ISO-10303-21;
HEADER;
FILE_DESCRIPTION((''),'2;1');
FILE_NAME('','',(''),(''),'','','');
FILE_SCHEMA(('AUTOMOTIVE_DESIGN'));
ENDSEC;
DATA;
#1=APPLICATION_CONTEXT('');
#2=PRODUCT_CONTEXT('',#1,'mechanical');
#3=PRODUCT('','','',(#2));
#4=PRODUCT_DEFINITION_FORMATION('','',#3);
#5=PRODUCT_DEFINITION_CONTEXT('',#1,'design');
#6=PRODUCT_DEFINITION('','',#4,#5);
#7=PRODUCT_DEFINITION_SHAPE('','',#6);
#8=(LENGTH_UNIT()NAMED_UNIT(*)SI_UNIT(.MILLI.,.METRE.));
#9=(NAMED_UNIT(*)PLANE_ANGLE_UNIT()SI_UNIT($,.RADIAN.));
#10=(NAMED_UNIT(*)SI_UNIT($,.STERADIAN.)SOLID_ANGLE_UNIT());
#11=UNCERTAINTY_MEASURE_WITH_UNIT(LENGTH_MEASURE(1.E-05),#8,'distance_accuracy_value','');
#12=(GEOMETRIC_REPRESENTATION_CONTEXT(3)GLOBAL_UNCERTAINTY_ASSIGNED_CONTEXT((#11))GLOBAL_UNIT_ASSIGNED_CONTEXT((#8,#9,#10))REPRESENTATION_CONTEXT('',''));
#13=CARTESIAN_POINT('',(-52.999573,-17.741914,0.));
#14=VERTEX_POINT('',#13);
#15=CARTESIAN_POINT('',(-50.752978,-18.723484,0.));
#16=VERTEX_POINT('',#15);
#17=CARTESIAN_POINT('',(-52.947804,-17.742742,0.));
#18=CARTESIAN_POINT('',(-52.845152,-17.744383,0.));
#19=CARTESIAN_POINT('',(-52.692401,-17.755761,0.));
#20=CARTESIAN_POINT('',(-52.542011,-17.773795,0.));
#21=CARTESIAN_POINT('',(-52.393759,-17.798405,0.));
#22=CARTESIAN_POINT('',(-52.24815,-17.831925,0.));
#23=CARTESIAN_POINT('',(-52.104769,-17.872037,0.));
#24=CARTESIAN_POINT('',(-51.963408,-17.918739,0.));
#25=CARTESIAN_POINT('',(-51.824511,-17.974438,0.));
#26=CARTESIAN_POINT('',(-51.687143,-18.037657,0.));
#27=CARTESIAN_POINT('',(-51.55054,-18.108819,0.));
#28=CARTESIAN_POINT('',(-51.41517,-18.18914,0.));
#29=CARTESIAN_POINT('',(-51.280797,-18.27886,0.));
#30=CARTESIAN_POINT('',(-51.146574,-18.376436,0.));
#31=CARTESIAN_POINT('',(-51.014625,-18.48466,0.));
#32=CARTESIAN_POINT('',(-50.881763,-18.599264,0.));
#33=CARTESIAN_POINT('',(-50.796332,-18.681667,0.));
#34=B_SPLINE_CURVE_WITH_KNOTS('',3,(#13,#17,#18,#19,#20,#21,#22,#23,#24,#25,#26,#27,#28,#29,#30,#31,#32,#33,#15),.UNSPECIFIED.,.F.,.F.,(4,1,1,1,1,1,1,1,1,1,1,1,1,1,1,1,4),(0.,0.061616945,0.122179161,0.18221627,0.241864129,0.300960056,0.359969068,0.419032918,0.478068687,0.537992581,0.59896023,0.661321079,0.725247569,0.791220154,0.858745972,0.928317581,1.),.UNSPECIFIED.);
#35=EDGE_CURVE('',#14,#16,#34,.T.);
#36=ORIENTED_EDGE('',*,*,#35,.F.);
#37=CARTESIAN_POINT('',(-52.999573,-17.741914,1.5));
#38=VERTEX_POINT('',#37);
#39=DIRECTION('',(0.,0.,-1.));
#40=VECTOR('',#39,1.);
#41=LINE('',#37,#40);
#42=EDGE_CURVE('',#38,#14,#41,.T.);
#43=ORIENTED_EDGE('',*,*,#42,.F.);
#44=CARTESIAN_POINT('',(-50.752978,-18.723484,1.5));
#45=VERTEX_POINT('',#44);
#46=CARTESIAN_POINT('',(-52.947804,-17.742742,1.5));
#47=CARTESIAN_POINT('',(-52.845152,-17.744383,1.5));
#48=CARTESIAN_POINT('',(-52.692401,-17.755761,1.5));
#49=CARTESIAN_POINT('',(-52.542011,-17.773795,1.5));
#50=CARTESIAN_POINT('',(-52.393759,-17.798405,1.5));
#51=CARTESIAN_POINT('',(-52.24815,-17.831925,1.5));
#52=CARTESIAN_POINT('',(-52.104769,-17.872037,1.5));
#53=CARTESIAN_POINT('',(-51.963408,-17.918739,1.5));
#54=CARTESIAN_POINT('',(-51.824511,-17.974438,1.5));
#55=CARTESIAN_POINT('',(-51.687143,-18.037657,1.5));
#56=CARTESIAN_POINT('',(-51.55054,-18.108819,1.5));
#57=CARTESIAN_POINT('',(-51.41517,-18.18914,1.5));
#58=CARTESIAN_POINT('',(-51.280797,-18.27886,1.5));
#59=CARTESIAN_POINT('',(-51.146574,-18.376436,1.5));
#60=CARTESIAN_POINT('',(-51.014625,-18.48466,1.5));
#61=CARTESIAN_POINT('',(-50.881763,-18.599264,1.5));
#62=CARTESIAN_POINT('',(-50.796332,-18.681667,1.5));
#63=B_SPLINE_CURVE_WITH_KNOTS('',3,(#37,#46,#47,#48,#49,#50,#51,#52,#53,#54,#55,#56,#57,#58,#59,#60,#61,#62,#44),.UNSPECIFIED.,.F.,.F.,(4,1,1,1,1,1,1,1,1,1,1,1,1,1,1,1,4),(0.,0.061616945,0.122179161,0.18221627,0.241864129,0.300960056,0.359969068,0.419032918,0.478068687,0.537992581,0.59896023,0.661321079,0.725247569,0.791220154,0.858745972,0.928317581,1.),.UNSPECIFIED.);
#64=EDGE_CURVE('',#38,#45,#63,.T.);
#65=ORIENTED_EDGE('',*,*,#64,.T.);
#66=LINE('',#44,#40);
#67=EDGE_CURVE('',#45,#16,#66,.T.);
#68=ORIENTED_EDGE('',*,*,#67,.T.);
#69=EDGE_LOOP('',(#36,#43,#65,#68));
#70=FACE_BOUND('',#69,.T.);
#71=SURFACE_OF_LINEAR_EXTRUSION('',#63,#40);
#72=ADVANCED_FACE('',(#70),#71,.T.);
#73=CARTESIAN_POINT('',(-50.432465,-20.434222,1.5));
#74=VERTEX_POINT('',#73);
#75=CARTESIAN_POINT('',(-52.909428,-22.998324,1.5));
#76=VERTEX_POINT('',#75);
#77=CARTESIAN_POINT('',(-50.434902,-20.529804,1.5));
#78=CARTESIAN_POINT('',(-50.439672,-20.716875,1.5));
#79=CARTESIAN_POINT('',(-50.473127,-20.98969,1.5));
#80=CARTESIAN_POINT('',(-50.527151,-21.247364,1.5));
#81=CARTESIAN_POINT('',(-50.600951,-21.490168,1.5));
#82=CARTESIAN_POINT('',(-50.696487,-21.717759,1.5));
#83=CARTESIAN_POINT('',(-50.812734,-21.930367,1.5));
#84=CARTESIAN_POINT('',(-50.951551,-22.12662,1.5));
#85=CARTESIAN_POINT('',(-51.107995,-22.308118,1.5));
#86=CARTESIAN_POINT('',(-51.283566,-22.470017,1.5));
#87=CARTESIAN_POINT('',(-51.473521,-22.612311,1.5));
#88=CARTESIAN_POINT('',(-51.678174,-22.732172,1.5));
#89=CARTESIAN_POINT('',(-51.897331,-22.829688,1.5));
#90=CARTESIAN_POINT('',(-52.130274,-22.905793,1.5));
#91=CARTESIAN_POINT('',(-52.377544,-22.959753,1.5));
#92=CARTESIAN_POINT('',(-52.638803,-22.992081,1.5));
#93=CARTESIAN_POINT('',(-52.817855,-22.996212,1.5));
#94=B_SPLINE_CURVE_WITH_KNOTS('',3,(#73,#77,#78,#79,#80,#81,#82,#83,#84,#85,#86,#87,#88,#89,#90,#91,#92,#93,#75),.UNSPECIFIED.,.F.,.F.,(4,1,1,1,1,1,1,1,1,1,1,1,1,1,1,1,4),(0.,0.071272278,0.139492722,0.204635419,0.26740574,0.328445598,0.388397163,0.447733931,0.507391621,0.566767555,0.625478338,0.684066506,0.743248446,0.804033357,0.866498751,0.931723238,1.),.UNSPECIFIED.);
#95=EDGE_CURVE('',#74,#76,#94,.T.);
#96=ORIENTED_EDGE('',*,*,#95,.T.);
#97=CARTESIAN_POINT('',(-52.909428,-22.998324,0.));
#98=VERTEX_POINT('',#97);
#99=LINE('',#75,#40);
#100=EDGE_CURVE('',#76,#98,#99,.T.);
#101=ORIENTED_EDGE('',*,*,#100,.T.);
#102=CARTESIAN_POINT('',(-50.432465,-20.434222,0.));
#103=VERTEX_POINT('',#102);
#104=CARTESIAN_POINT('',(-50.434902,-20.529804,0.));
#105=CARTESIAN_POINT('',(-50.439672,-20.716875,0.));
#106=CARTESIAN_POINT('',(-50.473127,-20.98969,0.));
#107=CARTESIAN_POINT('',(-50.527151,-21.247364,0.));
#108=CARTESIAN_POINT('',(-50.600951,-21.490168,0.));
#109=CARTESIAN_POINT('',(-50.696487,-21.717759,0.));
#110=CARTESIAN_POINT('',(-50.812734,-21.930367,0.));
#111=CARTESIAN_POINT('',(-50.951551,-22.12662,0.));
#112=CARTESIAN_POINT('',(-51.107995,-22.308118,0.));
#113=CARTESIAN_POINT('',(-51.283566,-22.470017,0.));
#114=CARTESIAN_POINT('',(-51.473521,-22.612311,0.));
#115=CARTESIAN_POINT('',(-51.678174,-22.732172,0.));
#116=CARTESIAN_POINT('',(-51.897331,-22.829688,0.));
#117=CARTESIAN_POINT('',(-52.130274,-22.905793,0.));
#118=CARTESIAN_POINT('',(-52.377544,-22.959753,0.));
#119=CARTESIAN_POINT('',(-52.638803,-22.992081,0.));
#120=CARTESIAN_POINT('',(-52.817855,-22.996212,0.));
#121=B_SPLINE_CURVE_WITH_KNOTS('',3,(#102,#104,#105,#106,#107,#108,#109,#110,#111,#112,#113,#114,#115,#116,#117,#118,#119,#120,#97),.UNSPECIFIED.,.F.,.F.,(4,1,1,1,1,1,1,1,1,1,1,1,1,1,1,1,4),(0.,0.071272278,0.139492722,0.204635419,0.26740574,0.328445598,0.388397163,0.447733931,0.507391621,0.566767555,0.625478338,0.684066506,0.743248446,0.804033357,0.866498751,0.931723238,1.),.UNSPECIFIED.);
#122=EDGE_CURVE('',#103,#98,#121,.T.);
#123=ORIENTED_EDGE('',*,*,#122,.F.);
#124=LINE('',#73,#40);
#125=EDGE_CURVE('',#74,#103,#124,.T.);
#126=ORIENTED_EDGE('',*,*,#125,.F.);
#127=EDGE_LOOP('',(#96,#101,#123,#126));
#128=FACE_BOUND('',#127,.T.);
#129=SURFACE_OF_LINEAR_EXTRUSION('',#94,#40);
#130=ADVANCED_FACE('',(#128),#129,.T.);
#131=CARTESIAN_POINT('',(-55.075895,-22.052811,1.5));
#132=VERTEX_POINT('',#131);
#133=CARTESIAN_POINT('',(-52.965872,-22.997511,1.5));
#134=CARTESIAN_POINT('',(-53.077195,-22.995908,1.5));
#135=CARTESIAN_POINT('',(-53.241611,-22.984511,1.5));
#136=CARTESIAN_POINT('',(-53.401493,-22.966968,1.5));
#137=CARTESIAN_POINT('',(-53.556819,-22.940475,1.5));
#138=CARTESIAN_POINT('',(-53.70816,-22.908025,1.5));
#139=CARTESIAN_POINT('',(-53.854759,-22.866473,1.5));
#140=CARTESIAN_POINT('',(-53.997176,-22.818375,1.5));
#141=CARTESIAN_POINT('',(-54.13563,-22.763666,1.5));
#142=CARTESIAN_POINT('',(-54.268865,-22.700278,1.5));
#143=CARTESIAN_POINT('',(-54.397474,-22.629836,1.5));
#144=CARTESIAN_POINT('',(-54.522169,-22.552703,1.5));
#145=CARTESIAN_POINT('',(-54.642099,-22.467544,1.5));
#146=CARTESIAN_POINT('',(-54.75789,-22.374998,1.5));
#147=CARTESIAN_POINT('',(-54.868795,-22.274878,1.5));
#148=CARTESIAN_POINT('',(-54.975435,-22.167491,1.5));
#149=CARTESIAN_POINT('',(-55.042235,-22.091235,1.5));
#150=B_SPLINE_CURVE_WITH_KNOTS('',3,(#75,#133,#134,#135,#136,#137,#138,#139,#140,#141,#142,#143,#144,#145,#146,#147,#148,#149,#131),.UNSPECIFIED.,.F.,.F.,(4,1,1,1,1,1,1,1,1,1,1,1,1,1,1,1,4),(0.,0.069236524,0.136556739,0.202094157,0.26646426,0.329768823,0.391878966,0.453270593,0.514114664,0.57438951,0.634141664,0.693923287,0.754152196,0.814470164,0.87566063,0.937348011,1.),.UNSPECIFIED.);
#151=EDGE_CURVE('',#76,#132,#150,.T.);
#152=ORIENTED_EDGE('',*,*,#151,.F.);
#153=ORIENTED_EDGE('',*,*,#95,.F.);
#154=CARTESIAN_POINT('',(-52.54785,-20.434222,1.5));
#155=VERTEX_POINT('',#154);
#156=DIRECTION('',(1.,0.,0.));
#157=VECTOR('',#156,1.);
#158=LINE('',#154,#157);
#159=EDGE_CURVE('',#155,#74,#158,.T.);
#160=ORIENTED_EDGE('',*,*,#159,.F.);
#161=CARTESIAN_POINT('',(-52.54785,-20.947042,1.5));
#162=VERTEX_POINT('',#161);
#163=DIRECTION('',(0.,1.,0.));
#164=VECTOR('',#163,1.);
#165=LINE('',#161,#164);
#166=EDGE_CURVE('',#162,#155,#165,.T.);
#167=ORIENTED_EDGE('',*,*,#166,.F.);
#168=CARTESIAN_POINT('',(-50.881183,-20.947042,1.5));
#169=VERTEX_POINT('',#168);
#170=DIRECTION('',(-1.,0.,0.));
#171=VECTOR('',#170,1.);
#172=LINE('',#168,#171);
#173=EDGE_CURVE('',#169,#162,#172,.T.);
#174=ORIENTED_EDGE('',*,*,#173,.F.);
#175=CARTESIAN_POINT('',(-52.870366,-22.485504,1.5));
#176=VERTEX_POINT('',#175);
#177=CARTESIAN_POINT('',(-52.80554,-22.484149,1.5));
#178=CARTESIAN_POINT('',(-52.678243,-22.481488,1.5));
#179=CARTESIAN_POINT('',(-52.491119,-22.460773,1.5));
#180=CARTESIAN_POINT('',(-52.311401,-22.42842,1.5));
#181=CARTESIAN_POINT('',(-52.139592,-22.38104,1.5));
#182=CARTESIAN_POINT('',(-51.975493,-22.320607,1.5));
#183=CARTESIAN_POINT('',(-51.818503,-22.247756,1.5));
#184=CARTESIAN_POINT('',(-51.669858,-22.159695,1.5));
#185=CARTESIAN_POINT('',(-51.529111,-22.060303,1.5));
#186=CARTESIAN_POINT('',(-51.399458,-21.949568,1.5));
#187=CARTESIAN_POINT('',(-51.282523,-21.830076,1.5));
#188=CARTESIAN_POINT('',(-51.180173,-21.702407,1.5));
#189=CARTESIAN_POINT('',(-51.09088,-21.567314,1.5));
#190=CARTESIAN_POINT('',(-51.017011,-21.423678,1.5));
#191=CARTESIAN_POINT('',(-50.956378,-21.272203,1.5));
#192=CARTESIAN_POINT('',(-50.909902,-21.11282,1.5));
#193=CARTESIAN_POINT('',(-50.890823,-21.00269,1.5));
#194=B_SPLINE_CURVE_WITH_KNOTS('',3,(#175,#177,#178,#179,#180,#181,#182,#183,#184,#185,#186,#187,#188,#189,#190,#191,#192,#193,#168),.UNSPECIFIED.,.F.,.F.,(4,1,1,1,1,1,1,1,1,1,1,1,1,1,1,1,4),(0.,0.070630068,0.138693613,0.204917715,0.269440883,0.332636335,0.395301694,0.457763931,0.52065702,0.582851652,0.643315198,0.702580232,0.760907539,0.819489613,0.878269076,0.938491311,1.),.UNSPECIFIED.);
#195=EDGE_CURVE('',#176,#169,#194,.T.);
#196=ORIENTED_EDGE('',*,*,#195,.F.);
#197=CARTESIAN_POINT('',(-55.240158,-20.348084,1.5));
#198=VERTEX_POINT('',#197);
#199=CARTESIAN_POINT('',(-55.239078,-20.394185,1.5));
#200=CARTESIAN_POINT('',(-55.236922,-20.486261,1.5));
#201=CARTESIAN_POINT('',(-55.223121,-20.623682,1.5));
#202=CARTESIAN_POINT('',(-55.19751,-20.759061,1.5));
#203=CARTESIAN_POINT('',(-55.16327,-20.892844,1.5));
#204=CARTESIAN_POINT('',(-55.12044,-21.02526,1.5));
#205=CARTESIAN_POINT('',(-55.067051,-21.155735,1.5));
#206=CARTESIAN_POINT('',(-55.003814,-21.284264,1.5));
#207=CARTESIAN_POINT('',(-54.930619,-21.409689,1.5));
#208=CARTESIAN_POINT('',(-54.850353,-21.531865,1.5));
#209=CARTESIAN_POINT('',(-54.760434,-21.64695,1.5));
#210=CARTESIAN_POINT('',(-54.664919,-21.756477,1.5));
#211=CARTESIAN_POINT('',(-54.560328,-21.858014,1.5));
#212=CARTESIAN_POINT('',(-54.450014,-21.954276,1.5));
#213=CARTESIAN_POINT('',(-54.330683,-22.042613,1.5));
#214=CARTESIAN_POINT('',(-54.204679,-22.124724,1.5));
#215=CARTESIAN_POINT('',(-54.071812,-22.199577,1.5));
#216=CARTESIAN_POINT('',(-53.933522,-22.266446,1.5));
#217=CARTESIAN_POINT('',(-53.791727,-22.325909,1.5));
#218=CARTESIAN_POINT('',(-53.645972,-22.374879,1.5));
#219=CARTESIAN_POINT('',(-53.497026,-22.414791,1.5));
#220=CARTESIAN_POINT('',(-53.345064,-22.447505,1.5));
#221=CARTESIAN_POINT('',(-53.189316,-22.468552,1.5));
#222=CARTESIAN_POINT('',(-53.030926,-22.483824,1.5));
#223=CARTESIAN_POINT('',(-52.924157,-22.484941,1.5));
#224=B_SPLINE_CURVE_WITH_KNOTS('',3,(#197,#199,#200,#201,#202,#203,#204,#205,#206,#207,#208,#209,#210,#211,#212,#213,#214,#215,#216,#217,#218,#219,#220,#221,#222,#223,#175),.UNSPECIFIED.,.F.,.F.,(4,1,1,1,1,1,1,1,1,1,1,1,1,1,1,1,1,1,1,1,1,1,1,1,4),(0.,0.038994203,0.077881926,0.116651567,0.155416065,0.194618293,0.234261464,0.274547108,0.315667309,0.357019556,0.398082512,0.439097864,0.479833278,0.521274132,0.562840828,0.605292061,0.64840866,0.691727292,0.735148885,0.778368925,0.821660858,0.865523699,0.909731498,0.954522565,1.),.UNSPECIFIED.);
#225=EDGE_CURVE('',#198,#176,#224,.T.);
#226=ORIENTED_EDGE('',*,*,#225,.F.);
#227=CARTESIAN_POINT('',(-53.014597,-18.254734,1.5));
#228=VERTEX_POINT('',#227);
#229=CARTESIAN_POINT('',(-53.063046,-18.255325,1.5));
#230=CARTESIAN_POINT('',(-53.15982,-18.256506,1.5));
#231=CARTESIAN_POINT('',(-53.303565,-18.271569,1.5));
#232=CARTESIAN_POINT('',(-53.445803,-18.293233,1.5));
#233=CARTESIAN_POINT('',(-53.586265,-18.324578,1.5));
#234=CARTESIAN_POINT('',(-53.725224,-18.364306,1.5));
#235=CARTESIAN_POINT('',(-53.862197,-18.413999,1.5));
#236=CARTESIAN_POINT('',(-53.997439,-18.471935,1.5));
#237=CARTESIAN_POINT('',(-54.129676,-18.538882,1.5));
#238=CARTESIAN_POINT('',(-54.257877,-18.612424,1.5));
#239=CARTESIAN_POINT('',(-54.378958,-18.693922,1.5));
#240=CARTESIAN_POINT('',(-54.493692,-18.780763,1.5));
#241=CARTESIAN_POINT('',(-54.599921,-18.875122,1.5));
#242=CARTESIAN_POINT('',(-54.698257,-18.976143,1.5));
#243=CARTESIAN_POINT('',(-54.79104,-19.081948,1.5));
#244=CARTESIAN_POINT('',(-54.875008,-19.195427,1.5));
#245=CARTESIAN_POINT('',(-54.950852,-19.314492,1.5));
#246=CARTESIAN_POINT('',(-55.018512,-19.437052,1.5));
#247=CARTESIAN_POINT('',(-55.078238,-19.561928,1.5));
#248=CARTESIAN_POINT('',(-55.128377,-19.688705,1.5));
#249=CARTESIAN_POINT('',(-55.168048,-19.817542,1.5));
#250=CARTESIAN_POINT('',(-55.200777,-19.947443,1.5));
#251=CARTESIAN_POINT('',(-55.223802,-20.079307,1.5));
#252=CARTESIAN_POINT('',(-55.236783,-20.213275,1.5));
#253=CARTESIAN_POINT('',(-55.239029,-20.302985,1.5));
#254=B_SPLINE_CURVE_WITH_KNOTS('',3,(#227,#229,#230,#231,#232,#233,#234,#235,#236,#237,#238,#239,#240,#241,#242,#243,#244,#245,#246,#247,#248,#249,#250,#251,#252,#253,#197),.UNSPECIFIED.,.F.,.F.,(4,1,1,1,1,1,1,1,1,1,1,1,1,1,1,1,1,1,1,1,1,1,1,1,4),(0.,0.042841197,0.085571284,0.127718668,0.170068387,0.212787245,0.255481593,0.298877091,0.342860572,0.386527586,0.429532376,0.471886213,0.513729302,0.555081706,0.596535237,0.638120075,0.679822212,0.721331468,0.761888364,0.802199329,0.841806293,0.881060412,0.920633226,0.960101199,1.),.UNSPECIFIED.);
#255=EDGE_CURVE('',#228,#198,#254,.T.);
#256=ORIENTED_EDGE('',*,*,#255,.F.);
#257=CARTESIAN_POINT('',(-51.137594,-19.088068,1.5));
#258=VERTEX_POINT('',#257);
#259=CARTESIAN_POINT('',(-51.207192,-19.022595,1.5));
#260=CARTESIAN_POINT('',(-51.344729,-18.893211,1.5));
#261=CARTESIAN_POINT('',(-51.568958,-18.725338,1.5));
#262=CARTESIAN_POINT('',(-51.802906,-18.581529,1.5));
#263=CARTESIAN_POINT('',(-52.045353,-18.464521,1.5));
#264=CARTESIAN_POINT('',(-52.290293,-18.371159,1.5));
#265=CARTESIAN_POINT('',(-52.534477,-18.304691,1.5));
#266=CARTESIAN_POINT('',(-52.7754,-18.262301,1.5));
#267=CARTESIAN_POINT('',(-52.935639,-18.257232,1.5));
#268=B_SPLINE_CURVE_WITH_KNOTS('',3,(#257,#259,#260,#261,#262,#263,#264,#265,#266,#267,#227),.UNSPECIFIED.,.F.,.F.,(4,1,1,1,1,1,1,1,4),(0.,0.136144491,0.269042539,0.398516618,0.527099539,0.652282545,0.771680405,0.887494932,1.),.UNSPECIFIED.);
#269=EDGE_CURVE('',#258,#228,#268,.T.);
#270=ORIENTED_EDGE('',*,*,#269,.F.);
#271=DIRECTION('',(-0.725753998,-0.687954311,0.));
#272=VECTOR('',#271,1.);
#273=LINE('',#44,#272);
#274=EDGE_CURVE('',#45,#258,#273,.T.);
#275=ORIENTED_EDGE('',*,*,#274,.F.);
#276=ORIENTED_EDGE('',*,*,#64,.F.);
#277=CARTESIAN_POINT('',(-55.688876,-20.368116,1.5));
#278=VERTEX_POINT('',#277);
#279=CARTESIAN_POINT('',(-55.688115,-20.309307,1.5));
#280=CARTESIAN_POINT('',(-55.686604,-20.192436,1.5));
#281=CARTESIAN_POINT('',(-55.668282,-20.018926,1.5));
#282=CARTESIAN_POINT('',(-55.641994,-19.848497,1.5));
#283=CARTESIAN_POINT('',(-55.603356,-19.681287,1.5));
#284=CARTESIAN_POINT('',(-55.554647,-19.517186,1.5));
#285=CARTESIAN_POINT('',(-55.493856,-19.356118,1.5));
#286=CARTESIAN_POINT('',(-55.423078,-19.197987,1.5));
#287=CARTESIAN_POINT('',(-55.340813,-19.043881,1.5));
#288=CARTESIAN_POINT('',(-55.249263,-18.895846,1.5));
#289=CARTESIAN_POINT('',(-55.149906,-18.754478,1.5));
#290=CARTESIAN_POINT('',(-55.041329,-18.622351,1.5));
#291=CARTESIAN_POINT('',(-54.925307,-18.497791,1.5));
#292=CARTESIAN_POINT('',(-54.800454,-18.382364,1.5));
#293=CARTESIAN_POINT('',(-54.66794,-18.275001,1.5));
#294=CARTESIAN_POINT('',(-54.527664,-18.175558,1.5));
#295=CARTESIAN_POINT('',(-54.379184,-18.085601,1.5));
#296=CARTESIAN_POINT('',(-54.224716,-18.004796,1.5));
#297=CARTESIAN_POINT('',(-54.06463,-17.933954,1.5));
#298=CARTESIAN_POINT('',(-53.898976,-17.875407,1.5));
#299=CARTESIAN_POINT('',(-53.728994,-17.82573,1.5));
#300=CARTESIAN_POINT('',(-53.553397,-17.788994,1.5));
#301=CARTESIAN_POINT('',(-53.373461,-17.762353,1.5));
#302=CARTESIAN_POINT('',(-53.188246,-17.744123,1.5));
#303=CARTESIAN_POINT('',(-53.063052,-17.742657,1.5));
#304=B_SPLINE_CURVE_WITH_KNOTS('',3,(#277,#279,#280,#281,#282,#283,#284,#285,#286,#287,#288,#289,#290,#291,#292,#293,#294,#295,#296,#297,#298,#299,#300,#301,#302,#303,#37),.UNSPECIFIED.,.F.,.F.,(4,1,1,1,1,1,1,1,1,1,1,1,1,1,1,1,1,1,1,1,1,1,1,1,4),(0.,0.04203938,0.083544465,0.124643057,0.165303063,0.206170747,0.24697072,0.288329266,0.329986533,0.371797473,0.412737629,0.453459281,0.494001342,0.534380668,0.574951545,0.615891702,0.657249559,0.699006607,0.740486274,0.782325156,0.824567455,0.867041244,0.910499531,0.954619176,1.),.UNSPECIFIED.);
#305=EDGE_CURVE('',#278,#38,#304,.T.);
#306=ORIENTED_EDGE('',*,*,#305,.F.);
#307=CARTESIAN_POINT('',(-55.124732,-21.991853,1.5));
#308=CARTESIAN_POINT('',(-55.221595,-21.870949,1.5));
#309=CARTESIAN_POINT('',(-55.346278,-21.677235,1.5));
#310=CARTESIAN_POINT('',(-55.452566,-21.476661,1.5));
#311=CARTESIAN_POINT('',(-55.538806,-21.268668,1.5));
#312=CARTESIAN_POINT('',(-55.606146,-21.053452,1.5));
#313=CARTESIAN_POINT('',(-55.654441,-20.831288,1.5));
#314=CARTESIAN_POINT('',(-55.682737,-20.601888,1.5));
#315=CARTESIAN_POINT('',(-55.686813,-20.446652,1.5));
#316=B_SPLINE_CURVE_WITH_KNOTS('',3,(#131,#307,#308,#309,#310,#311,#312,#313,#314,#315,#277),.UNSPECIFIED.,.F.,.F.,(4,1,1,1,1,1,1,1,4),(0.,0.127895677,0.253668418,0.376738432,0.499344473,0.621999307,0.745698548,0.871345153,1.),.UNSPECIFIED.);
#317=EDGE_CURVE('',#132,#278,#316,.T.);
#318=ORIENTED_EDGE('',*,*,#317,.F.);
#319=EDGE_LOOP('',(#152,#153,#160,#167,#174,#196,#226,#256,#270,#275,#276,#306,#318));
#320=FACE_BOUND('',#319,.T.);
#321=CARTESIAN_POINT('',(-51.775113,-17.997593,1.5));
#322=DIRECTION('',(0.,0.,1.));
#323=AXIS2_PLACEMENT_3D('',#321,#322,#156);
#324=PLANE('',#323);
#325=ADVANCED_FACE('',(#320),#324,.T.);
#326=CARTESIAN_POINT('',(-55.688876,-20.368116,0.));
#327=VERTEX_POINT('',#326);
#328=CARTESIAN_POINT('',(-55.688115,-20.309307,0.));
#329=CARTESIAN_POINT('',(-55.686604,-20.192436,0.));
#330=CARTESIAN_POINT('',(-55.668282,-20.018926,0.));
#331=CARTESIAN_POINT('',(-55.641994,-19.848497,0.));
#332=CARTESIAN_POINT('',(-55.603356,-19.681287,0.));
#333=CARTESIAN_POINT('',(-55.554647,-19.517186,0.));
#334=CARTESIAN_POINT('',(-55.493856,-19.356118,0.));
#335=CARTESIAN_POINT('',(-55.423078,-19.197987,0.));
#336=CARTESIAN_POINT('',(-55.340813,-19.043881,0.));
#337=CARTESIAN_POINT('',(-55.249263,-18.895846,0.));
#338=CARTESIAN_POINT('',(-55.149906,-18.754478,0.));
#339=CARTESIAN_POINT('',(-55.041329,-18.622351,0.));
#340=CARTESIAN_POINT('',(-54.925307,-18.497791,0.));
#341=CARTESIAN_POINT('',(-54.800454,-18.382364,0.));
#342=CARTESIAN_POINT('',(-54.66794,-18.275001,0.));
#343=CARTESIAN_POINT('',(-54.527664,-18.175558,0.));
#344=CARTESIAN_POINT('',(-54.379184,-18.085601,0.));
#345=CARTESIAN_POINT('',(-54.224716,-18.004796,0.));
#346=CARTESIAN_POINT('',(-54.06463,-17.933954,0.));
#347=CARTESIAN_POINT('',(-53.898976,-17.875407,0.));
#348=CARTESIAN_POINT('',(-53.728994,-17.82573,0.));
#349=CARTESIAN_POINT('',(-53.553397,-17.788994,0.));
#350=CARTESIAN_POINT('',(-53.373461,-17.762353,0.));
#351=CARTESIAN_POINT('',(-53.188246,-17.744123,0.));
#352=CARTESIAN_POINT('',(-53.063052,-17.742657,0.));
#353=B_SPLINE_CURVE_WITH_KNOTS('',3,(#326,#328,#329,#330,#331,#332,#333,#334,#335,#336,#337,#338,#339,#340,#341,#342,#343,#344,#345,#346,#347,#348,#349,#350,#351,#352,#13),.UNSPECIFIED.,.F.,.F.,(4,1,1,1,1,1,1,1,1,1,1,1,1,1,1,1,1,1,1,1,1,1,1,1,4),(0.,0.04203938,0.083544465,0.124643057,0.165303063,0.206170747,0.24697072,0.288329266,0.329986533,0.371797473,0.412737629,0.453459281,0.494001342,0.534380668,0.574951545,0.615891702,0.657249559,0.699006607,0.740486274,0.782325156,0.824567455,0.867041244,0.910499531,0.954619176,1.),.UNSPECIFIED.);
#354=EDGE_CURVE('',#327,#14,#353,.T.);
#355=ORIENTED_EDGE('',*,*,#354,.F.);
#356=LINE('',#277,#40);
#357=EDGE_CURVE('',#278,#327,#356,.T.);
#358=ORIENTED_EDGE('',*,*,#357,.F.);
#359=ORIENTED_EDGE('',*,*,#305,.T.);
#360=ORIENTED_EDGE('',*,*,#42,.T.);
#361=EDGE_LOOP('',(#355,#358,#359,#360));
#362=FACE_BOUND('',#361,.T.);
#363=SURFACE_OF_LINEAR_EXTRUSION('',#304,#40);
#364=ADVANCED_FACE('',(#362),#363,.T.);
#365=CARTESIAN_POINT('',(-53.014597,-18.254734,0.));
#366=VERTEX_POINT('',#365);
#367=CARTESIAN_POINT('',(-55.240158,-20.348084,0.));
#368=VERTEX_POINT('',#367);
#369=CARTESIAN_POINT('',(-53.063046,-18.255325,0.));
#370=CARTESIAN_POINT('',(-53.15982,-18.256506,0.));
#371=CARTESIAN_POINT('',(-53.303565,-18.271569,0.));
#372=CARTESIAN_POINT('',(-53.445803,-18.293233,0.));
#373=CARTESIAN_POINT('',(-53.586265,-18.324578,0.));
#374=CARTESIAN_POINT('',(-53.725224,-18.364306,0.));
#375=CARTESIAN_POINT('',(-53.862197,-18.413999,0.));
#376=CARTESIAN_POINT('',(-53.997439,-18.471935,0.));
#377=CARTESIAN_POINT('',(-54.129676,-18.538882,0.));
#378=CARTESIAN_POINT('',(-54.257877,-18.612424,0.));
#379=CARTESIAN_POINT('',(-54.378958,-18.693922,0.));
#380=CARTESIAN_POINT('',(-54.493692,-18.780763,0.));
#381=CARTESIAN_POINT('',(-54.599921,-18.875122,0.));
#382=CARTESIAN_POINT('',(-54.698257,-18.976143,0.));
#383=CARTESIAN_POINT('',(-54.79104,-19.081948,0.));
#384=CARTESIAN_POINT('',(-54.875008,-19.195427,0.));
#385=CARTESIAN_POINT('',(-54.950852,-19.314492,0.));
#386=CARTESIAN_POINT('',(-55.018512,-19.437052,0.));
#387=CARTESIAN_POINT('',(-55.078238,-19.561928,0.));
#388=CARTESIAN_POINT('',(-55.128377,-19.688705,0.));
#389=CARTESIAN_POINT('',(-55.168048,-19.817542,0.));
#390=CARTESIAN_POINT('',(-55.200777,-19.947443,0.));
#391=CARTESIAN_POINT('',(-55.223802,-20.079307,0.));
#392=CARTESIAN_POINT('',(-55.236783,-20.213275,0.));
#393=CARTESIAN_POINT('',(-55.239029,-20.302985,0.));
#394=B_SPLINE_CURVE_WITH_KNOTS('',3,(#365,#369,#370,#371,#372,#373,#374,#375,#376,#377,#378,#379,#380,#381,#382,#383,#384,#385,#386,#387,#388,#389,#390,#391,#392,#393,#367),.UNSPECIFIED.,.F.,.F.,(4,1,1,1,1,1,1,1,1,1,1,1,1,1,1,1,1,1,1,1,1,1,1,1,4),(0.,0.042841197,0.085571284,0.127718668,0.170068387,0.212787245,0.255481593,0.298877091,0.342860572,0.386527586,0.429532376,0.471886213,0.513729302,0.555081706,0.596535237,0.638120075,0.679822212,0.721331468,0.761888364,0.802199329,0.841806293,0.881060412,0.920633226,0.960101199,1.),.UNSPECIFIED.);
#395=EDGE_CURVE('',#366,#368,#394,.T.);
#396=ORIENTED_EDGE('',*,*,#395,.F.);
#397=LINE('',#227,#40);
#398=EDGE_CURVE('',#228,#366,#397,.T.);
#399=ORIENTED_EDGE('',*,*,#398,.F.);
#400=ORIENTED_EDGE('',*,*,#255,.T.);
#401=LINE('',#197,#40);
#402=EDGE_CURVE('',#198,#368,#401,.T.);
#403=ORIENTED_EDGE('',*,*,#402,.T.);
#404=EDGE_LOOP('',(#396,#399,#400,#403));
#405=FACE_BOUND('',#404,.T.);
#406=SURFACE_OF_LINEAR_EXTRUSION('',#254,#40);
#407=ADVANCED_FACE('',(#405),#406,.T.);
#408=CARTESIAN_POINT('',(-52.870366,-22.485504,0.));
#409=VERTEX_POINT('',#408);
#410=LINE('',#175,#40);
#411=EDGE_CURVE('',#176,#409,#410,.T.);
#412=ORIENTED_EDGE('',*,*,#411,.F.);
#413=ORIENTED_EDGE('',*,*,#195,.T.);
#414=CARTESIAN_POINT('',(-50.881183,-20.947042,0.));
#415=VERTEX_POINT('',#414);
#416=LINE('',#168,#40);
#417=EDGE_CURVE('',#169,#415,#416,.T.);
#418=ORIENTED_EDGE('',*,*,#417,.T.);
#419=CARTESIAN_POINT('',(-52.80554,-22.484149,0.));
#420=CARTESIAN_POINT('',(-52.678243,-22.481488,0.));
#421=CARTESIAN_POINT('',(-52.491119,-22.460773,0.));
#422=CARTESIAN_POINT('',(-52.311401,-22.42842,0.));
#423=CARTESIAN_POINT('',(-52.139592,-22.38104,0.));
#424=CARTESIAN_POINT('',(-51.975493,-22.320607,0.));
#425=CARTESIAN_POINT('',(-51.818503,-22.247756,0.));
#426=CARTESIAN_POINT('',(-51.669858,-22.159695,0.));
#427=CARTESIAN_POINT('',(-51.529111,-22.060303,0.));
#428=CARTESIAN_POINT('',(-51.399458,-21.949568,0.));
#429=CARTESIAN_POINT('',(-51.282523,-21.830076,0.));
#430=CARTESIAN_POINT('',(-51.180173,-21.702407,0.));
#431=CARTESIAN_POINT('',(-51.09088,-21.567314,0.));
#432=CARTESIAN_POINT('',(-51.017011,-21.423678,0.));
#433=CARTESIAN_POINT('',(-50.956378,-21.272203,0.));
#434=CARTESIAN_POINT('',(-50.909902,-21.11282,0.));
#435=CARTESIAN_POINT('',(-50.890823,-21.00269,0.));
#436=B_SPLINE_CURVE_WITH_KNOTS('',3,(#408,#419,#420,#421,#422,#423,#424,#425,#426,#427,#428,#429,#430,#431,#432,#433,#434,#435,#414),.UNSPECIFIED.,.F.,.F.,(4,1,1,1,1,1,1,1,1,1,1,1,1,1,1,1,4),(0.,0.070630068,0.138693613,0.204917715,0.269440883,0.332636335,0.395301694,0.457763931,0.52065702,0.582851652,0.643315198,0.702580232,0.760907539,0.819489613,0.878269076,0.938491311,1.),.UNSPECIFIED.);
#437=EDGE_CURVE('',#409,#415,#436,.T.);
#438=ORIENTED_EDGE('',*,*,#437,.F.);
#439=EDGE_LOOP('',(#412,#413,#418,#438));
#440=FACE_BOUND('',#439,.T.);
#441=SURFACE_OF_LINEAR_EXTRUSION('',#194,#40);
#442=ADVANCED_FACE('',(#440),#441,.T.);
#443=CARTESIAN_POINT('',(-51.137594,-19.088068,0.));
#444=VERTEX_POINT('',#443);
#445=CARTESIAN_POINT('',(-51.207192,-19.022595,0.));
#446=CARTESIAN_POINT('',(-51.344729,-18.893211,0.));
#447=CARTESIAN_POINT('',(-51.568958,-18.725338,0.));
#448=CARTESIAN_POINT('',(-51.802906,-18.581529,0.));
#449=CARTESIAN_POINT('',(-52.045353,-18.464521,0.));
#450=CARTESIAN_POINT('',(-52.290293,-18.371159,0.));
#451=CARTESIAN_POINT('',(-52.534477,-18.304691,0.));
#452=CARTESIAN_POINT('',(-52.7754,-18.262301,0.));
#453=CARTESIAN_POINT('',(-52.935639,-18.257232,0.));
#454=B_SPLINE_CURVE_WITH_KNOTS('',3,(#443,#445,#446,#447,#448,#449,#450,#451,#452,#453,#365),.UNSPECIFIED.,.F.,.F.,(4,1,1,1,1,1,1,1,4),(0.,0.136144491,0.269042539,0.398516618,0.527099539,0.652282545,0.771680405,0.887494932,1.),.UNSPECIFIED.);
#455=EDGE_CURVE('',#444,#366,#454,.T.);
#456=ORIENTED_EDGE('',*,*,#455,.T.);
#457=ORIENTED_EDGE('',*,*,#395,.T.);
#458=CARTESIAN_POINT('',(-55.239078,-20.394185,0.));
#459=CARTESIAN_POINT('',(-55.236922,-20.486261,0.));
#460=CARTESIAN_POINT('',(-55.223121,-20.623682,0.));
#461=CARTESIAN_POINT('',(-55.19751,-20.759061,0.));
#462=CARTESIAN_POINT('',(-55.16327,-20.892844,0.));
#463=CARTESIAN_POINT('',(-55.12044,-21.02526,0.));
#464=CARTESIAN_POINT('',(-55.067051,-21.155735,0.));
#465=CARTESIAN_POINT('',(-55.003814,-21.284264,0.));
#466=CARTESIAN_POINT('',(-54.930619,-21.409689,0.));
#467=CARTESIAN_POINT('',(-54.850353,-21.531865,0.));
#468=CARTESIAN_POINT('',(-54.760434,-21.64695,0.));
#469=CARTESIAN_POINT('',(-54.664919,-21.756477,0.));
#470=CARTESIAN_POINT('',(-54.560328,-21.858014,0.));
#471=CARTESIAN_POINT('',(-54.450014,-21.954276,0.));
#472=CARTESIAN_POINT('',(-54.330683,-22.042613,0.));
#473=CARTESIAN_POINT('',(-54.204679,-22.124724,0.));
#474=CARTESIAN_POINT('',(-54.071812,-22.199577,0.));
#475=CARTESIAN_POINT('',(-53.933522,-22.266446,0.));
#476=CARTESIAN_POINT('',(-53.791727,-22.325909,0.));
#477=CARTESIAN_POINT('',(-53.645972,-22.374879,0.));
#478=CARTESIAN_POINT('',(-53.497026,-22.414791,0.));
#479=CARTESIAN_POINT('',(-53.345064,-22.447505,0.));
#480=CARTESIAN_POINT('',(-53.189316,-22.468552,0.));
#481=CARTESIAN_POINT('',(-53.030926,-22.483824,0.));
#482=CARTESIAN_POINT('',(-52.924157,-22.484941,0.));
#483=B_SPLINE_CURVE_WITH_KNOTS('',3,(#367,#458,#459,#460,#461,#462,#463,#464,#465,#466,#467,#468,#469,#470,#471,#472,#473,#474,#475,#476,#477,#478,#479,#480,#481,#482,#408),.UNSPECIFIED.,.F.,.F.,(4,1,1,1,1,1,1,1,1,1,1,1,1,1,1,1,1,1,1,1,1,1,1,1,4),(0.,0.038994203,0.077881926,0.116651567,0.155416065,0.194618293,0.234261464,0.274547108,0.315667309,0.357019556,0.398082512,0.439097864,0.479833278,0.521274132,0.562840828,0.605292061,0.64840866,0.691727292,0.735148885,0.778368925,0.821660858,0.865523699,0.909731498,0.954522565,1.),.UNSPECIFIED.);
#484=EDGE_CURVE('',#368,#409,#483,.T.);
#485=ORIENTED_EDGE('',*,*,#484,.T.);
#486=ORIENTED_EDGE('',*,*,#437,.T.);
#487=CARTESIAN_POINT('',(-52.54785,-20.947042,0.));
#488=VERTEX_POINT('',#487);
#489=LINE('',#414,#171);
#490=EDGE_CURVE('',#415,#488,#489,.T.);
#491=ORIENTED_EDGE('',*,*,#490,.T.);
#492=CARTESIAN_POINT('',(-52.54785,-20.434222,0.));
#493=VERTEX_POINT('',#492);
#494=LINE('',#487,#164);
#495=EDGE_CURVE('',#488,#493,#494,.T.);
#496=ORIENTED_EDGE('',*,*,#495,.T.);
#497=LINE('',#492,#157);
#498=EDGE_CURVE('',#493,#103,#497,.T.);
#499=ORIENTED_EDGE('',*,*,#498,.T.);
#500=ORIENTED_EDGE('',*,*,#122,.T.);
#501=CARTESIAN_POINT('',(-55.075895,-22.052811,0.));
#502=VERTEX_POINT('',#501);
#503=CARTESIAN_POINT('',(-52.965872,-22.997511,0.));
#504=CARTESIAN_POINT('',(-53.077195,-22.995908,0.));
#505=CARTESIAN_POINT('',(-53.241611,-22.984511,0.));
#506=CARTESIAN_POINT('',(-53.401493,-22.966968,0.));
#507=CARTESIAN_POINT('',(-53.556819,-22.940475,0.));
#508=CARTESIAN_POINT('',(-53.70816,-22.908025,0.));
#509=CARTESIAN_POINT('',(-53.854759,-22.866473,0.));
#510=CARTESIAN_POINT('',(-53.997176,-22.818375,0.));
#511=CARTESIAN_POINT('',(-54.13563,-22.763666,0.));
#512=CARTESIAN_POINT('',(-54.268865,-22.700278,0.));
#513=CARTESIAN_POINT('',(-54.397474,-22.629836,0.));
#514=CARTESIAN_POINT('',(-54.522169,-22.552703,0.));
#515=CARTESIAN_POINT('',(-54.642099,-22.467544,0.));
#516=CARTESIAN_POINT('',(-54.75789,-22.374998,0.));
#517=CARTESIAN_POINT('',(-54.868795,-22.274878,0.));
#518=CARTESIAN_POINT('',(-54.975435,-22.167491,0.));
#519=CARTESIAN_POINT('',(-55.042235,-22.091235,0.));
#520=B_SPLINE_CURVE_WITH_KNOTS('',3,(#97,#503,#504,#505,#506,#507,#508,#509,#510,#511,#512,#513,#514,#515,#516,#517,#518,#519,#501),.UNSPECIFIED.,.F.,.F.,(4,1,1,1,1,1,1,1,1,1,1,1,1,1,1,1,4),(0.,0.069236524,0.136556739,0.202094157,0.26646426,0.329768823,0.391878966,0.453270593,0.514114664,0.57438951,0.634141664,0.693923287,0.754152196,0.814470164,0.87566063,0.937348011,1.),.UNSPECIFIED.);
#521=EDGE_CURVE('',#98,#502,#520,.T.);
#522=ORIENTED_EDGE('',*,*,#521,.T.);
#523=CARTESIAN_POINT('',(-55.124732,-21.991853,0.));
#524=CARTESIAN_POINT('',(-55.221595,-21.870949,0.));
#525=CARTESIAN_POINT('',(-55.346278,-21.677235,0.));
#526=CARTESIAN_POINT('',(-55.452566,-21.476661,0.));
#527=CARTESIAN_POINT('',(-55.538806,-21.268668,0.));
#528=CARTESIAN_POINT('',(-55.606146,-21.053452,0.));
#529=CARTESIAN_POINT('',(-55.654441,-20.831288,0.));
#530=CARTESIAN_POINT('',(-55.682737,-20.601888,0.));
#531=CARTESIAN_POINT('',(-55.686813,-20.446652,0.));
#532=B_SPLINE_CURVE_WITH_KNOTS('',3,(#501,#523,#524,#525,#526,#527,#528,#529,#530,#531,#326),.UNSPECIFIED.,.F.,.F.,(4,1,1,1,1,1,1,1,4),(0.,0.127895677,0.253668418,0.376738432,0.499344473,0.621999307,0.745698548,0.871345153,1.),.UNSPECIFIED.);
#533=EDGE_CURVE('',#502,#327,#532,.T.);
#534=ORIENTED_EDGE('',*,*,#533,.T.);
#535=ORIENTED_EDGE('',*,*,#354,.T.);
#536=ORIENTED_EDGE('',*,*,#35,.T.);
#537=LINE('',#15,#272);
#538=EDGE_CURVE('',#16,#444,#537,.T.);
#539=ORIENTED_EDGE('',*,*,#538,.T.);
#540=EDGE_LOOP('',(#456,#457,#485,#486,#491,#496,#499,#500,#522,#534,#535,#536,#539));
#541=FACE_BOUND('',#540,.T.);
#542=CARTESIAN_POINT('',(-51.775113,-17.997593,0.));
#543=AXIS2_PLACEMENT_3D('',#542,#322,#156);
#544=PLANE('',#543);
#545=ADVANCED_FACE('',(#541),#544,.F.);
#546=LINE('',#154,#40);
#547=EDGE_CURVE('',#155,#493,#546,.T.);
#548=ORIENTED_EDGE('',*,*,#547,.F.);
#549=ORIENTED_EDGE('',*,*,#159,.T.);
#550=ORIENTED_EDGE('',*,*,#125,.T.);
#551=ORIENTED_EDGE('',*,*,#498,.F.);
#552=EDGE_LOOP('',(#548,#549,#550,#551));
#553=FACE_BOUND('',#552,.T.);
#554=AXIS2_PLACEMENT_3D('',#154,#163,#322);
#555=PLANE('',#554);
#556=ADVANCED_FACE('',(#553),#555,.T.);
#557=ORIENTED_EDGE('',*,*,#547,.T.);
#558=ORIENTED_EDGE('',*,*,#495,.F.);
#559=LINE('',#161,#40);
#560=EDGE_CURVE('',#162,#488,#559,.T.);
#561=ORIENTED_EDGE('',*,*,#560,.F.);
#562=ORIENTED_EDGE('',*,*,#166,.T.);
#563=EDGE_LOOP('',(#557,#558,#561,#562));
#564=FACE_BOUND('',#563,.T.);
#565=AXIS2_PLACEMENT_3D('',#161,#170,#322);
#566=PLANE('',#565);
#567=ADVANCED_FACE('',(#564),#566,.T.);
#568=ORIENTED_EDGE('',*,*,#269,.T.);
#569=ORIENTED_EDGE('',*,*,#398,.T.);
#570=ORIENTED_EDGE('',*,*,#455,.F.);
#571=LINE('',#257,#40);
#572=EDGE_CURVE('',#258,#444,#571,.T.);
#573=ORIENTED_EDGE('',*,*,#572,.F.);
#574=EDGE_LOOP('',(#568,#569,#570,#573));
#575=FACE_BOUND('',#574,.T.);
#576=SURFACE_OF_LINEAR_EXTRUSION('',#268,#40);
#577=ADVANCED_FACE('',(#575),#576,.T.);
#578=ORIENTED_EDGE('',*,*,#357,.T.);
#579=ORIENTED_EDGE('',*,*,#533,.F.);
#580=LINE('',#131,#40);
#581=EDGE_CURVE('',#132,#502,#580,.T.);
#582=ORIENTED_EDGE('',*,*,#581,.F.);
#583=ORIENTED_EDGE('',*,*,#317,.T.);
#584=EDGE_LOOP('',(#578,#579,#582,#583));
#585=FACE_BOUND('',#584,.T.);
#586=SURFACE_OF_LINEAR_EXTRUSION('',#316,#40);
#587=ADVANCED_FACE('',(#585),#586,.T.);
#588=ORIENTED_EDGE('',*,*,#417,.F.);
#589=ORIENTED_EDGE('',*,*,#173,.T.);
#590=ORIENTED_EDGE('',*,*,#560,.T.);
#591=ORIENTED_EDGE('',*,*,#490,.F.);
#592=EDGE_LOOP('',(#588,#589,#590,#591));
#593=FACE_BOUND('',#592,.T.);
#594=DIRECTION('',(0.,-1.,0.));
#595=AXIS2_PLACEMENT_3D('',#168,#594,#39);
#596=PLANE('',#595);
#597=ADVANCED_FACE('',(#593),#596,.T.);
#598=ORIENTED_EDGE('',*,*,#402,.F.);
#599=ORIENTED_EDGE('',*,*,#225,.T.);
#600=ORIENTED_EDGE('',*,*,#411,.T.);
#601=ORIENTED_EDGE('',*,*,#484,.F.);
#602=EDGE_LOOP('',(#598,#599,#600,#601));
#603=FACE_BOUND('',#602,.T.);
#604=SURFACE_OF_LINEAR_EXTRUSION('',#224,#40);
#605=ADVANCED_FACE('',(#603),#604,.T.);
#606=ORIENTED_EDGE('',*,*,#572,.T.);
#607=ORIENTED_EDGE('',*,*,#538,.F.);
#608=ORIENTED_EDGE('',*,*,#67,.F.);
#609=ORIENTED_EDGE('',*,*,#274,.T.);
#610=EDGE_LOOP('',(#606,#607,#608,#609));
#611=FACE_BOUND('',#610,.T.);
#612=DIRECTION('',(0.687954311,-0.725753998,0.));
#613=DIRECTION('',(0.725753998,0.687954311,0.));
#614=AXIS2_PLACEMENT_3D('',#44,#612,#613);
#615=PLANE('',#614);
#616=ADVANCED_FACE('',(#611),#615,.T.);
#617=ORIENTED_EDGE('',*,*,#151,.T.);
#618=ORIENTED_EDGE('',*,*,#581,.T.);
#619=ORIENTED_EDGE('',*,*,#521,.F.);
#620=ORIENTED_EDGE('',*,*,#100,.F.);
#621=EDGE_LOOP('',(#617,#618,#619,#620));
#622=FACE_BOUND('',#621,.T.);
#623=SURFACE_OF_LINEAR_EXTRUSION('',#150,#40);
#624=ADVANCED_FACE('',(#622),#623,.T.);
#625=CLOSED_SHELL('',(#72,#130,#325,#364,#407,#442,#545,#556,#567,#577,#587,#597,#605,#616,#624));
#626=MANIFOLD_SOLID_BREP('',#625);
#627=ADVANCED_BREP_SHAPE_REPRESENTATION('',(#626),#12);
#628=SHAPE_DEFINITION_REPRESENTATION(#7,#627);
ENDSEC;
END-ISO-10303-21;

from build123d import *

# Parameters (mm, degrees)
BOSS_EXTRU_1_DEPTH = 1.5


with BuildPart() as part:
    # Esquisse1 → Boss.-Extru.1 (new body)
    with BuildSketch(Plane.XY):
        with BuildLine():
            Line((-50.752978146, -18.723484461), (-51.137593531, -19.088067794))
            add(Edge.make_bspline(
                [(-51.137593531, -19.088067794), (-51.207191943, -19.022595133), (-51.344729152, -18.893211043), (-51.56895807, -18.725338193), (-51.802906119, -18.581529478), (-52.045352543, -18.464520569), (-52.290293334, -18.371159483), (-52.5344773, -18.304690711), (-52.775399731, -18.262301372), (-52.935638614, -18.257232272), (-53.014596736, -18.254734461)],
                knots=[0, 0, 0, 0, 1.08915593, 2.152340314, 3.188132944, 4.216796309, 5.218260357, 6.173443236, 7.099959455, 8, 8, 8, 8], degree=3))
            add(Edge.make_bspline(
                [(-53.014596736, -18.254734461), (-53.063046307, -18.255325326), (-53.159819794, -18.256505525), (-53.303565428, -18.27156869), (-53.445803481, -18.293232781), (-53.586265445, -18.324578321), (-53.725224426, -18.364305549), (-53.862197129, -18.413999068), (-53.997439064, -18.471935131), (-54.129676323, -18.538881522), (-54.257877042, -18.61242416), (-54.378958236, -18.693922075), (-54.493691663, -18.780763203), (-54.599920842, -18.875121745), (-54.698256823, -18.976142981), (-54.791040211, -19.081947704), (-54.875007777, -19.195426588), (-54.950852298, -19.314491768), (-55.018511753, -19.437052039), (-55.078238401, -19.561927738), (-55.128377098, -19.688704673), (-55.168047749, -19.817541927), (-55.200777254, -19.94744277), (-55.223802408, -20.079306656), (-55.236783439, -20.213274778), (-55.239028839, -20.302985147), (-55.240157634, -20.34808382)],
                knots=[0, 0, 0, 0, 1.02818874, 2.053710826, 3.065248034, 4.081641283, 5.106893873, 6.131558223, 7.173050175, 8.228653731, 9.27666206, 10.308777013, 11.325269123, 12.329503258, 13.32196095, 14.316845687, 15.314881793, 16.315733098, 17.311955233, 18.285320748, 19.252783886, 20.203351036, 21.145449891, 22.095197417, 23.042428769, 24, 24, 24, 24], degree=3))
            add(Edge.make_bspline(
                [(-55.240157634, -20.34808382), (-55.239078036, -20.394184987), (-55.236921789, -20.486261435), (-55.223121332, -20.623681539), (-55.19750956, -20.759060685), (-55.163269976, -20.892843733), (-55.12044024, -21.025259801), (-55.067050717, -21.155734815), (-55.003814145, -21.284263945), (-54.93061907, -21.409689112), (-54.850353065, -21.53186486), (-54.760434378, -21.646949891), (-54.664919259, -21.756476716), (-54.560327973, -21.858013521), (-54.450014342, -21.95427623), (-54.330682519, -22.04261269), (-54.204679004, -22.124724438), (-54.071811558, -22.199576608), (-53.933521869, -22.266445945), (-53.791726508, -22.325908654), (-53.645972485, -22.374879135), (-53.497025786, -22.414790713), (-53.345063969, -22.447505423), (-53.189315679, -22.468551823), (-53.030926096, -22.483824439), (-52.924156622, -22.48494111), (-52.870365967, -22.485503692)],
                knots=[0, 0, 0, 0, 0.93586088, 1.869166235, 2.799637598, 3.729985548, 4.670839027, 5.622275134, 6.589130586, 7.576015415, 8.568469353, 9.55398029, 10.53834874, 11.515998671, 12.510579167, 13.508179873, 14.527009472, 15.561807829, 16.601455013, 17.643573243, 18.680854198, 19.719860599, 20.772568776, 21.833555941, 22.908541556, 24, 24, 24, 24], degree=3))
            add(Edge.make_bspline(
                [(-52.870365967, -22.485503692), (-52.805539757, -22.484148583), (-52.67824296, -22.481487606), (-52.491119471, -22.460772907), (-52.311400798, -22.428420344), (-52.139591937, -22.381040492), (-51.975493336, -22.320606671), (-51.818503419, -22.247756118), (-51.669858193, -22.159694605), (-51.529110802, -22.060303367), (-51.39945768, -21.949567892), (-51.282523217, -21.830075813), (-51.180172518, -21.702407146), (-51.090880091, -21.567313839), (-51.017010584, -21.423677689), (-50.95637802, -21.2722026), (-50.909901889, -21.11282044), (-50.890823354, -21.002689537), (-50.881183275, -20.947042153)],
                knots=[0, 0, 0, 0, 1.13008108, 2.219097802, 3.278683437, 4.311054135, 5.322181354, 6.324827112, 7.324222904, 8.330512327, 9.32562643, 10.293043162, 11.24128371, 12.174520618, 13.111833804, 14.052305215, 15.015860969, 16, 16, 16, 16], degree=3))
            Line((-50.881183275, -20.947042153), (-52.547849941, -20.947042153))
            Line((-52.547849941, -20.947042153), (-52.547849941, -20.43422164))
            Line((-52.547849941, -20.43422164), (-50.432465326, -20.43422164))
            add(Edge.make_bspline(
                [(-50.432465326, -20.43422164), (-50.434902252, -20.529803767), (-50.439671757, -20.716875255), (-50.473127351, -20.989689928), (-50.52715094, -21.247363776), (-50.600951385, -21.490168164), (-50.6964875, -21.717759011), (-50.812733969, -21.930367391), (-50.951551285, -22.126619792), (-51.107994773, -22.308118369), (-51.283566141, -22.470017243), (-51.473521313, -22.61231144), (-51.678174124, -22.732172319), (-51.897330992, -22.829687551), (-52.130274469, -22.905793258), (-52.377543583, -22.959752654), (-52.638803012, -22.992081173), (-52.817855408, -22.996211715), (-52.909428467, -22.998324204)],
                knots=[0, 0, 0, 0, 1.140356446, 2.231883559, 3.274166699, 4.278491846, 5.25512956, 6.21435461, 7.1637429, 8.11826594, 9.068280886, 10.0076534, 10.945064095, 11.891975133, 12.864533718, 13.863980011, 14.907571808, 16, 16, 16, 16], degree=3))
            add(Edge.make_bspline(
                [(-52.909428467, -22.998324204), (-52.965871517, -22.997511174), (-53.077195404, -22.995907616), (-53.241611016, -22.984511406), (-53.401493331, -22.966967725), (-53.556819058, -22.940474692), (-53.708159547, -22.908025186), (-53.854758954, -22.86647273), (-53.997175728, -22.818374588), (-54.135629993, -22.763666483), (-54.26886506, -22.700278402), (-54.39747437, -22.62983606), (-54.522168836, -22.552702688), (-54.642099071, -22.467544337), (-54.757889959, -22.374997965), (-54.868794878, -22.274878081), (-54.975434704, -22.167490767), (-55.042235366, -22.091235039), (-55.075894813, -22.052811384)],
                knots=[0, 0, 0, 0, 1.107784379, 2.184907829, 3.233506516, 4.263428166, 5.276301166, 6.270063455, 7.25232949, 8.225834625, 9.190232166, 10.146266622, 11.1027726, 12.066435141, 13.031522626, 14.010570082, 14.99756817, 16, 16, 16, 16], degree=3))
            add(Edge.make_bspline(
                [(-55.075894813, -22.052811384), (-55.124731859, -21.991853308), (-55.221595305, -21.870948998), (-55.346278386, -21.677234792), (-55.452566105, -21.476660706), (-55.53880585, -21.268668379), (-55.606145974, -21.053452361), (-55.654440621, -20.831287659), (-55.682736748, -20.601888187), (-55.68681323, -20.446652095), (-55.688875582, -20.368115871)],
                knots=[0, 0, 0, 0, 1.023165419, 2.029347347, 3.013907458, 3.994755782, 4.975994455, 5.96558838, 6.970761222, 8, 8, 8, 8], degree=3))
            add(Edge.make_bspline(
                [(-55.688875582, -20.368115871), (-55.688115242, -20.309306939), (-55.686604225, -20.192436499), (-55.668282059, -20.01892606), (-55.641994319, -19.8484965), (-55.60335567, -19.681287134), (-55.55464672, -19.517186289), (-55.493856026, -19.356117769), (-55.423077603, -19.197986524), (-55.340812609, -19.043880998), (-55.249263381, -18.895846122), (-55.149905923, -18.754477832), (-55.041329351, -18.622350596), (-54.925306781, -18.497791099), (-54.800453937, -18.382364174), (-54.667940475, -18.275001159), (-54.527664271, -18.175558037), (-54.379184014, -18.08560113), (-54.224715893, -18.004795958), (-54.064630177, -17.933954227), (-53.898975733, -17.875406633), (-53.728993622, -17.825729805), (-53.553397192, -17.78899389), (-53.373460711, -17.762352825), (-53.188246265, -17.744123397), (-53.063051938, -17.742657317), (-52.999572698, -17.741913948)],
                knots=[0, 0, 0, 0, 1.008945113, 2.00506715, 2.99143336, 3.967273523, 4.948097931, 5.927297278, 6.919902385, 7.919676788, 8.923139349, 9.905703106, 10.883022732, 11.856032218, 12.825136022, 13.798837087, 14.781400844, 15.773989409, 16.776158564, 17.77167057, 18.775803737, 19.789618931, 20.80898985, 21.851988756, 22.910860228, 24, 24, 24, 24], degree=3))
            add(Edge.make_bspline(
                [(-52.999572698, -17.741913948), (-52.947803778, -17.742741793), (-52.845152094, -17.744383313), (-52.692401048, -17.755761382), (-52.542011027, -17.773795498), (-52.393759042, -17.798405193), (-52.248149947, -17.831924751), (-52.104768939, -17.872036586), (-51.963408173, -17.91873919), (-51.824510674, -17.974437542), (-51.687142509, -18.037657006), (-51.550539879, -18.108819038), (-51.415169528, -18.189140473), (-51.280796697, -18.27885981), (-51.146574043, -18.376436121), (-51.014624554, -18.484660155), (-50.881763205, -18.599264092), (-50.796332042, -18.681667211), (-50.752978146, -18.723484461)],
                knots=[0, 0, 0, 0, 0.985871117, 1.954866573, 2.915460327, 3.869826059, 4.81536089, 5.759505086, 6.70452669, 7.649098992, 8.607881297, 9.583363685, 10.581137262, 11.603961102, 12.659522466, 13.73993555, 14.853081303, 16, 16, 16, 16], degree=3))
        make_face()
    extrude(amount=BOSS_EXTRU_1_DEPTH)


solid = part.part
